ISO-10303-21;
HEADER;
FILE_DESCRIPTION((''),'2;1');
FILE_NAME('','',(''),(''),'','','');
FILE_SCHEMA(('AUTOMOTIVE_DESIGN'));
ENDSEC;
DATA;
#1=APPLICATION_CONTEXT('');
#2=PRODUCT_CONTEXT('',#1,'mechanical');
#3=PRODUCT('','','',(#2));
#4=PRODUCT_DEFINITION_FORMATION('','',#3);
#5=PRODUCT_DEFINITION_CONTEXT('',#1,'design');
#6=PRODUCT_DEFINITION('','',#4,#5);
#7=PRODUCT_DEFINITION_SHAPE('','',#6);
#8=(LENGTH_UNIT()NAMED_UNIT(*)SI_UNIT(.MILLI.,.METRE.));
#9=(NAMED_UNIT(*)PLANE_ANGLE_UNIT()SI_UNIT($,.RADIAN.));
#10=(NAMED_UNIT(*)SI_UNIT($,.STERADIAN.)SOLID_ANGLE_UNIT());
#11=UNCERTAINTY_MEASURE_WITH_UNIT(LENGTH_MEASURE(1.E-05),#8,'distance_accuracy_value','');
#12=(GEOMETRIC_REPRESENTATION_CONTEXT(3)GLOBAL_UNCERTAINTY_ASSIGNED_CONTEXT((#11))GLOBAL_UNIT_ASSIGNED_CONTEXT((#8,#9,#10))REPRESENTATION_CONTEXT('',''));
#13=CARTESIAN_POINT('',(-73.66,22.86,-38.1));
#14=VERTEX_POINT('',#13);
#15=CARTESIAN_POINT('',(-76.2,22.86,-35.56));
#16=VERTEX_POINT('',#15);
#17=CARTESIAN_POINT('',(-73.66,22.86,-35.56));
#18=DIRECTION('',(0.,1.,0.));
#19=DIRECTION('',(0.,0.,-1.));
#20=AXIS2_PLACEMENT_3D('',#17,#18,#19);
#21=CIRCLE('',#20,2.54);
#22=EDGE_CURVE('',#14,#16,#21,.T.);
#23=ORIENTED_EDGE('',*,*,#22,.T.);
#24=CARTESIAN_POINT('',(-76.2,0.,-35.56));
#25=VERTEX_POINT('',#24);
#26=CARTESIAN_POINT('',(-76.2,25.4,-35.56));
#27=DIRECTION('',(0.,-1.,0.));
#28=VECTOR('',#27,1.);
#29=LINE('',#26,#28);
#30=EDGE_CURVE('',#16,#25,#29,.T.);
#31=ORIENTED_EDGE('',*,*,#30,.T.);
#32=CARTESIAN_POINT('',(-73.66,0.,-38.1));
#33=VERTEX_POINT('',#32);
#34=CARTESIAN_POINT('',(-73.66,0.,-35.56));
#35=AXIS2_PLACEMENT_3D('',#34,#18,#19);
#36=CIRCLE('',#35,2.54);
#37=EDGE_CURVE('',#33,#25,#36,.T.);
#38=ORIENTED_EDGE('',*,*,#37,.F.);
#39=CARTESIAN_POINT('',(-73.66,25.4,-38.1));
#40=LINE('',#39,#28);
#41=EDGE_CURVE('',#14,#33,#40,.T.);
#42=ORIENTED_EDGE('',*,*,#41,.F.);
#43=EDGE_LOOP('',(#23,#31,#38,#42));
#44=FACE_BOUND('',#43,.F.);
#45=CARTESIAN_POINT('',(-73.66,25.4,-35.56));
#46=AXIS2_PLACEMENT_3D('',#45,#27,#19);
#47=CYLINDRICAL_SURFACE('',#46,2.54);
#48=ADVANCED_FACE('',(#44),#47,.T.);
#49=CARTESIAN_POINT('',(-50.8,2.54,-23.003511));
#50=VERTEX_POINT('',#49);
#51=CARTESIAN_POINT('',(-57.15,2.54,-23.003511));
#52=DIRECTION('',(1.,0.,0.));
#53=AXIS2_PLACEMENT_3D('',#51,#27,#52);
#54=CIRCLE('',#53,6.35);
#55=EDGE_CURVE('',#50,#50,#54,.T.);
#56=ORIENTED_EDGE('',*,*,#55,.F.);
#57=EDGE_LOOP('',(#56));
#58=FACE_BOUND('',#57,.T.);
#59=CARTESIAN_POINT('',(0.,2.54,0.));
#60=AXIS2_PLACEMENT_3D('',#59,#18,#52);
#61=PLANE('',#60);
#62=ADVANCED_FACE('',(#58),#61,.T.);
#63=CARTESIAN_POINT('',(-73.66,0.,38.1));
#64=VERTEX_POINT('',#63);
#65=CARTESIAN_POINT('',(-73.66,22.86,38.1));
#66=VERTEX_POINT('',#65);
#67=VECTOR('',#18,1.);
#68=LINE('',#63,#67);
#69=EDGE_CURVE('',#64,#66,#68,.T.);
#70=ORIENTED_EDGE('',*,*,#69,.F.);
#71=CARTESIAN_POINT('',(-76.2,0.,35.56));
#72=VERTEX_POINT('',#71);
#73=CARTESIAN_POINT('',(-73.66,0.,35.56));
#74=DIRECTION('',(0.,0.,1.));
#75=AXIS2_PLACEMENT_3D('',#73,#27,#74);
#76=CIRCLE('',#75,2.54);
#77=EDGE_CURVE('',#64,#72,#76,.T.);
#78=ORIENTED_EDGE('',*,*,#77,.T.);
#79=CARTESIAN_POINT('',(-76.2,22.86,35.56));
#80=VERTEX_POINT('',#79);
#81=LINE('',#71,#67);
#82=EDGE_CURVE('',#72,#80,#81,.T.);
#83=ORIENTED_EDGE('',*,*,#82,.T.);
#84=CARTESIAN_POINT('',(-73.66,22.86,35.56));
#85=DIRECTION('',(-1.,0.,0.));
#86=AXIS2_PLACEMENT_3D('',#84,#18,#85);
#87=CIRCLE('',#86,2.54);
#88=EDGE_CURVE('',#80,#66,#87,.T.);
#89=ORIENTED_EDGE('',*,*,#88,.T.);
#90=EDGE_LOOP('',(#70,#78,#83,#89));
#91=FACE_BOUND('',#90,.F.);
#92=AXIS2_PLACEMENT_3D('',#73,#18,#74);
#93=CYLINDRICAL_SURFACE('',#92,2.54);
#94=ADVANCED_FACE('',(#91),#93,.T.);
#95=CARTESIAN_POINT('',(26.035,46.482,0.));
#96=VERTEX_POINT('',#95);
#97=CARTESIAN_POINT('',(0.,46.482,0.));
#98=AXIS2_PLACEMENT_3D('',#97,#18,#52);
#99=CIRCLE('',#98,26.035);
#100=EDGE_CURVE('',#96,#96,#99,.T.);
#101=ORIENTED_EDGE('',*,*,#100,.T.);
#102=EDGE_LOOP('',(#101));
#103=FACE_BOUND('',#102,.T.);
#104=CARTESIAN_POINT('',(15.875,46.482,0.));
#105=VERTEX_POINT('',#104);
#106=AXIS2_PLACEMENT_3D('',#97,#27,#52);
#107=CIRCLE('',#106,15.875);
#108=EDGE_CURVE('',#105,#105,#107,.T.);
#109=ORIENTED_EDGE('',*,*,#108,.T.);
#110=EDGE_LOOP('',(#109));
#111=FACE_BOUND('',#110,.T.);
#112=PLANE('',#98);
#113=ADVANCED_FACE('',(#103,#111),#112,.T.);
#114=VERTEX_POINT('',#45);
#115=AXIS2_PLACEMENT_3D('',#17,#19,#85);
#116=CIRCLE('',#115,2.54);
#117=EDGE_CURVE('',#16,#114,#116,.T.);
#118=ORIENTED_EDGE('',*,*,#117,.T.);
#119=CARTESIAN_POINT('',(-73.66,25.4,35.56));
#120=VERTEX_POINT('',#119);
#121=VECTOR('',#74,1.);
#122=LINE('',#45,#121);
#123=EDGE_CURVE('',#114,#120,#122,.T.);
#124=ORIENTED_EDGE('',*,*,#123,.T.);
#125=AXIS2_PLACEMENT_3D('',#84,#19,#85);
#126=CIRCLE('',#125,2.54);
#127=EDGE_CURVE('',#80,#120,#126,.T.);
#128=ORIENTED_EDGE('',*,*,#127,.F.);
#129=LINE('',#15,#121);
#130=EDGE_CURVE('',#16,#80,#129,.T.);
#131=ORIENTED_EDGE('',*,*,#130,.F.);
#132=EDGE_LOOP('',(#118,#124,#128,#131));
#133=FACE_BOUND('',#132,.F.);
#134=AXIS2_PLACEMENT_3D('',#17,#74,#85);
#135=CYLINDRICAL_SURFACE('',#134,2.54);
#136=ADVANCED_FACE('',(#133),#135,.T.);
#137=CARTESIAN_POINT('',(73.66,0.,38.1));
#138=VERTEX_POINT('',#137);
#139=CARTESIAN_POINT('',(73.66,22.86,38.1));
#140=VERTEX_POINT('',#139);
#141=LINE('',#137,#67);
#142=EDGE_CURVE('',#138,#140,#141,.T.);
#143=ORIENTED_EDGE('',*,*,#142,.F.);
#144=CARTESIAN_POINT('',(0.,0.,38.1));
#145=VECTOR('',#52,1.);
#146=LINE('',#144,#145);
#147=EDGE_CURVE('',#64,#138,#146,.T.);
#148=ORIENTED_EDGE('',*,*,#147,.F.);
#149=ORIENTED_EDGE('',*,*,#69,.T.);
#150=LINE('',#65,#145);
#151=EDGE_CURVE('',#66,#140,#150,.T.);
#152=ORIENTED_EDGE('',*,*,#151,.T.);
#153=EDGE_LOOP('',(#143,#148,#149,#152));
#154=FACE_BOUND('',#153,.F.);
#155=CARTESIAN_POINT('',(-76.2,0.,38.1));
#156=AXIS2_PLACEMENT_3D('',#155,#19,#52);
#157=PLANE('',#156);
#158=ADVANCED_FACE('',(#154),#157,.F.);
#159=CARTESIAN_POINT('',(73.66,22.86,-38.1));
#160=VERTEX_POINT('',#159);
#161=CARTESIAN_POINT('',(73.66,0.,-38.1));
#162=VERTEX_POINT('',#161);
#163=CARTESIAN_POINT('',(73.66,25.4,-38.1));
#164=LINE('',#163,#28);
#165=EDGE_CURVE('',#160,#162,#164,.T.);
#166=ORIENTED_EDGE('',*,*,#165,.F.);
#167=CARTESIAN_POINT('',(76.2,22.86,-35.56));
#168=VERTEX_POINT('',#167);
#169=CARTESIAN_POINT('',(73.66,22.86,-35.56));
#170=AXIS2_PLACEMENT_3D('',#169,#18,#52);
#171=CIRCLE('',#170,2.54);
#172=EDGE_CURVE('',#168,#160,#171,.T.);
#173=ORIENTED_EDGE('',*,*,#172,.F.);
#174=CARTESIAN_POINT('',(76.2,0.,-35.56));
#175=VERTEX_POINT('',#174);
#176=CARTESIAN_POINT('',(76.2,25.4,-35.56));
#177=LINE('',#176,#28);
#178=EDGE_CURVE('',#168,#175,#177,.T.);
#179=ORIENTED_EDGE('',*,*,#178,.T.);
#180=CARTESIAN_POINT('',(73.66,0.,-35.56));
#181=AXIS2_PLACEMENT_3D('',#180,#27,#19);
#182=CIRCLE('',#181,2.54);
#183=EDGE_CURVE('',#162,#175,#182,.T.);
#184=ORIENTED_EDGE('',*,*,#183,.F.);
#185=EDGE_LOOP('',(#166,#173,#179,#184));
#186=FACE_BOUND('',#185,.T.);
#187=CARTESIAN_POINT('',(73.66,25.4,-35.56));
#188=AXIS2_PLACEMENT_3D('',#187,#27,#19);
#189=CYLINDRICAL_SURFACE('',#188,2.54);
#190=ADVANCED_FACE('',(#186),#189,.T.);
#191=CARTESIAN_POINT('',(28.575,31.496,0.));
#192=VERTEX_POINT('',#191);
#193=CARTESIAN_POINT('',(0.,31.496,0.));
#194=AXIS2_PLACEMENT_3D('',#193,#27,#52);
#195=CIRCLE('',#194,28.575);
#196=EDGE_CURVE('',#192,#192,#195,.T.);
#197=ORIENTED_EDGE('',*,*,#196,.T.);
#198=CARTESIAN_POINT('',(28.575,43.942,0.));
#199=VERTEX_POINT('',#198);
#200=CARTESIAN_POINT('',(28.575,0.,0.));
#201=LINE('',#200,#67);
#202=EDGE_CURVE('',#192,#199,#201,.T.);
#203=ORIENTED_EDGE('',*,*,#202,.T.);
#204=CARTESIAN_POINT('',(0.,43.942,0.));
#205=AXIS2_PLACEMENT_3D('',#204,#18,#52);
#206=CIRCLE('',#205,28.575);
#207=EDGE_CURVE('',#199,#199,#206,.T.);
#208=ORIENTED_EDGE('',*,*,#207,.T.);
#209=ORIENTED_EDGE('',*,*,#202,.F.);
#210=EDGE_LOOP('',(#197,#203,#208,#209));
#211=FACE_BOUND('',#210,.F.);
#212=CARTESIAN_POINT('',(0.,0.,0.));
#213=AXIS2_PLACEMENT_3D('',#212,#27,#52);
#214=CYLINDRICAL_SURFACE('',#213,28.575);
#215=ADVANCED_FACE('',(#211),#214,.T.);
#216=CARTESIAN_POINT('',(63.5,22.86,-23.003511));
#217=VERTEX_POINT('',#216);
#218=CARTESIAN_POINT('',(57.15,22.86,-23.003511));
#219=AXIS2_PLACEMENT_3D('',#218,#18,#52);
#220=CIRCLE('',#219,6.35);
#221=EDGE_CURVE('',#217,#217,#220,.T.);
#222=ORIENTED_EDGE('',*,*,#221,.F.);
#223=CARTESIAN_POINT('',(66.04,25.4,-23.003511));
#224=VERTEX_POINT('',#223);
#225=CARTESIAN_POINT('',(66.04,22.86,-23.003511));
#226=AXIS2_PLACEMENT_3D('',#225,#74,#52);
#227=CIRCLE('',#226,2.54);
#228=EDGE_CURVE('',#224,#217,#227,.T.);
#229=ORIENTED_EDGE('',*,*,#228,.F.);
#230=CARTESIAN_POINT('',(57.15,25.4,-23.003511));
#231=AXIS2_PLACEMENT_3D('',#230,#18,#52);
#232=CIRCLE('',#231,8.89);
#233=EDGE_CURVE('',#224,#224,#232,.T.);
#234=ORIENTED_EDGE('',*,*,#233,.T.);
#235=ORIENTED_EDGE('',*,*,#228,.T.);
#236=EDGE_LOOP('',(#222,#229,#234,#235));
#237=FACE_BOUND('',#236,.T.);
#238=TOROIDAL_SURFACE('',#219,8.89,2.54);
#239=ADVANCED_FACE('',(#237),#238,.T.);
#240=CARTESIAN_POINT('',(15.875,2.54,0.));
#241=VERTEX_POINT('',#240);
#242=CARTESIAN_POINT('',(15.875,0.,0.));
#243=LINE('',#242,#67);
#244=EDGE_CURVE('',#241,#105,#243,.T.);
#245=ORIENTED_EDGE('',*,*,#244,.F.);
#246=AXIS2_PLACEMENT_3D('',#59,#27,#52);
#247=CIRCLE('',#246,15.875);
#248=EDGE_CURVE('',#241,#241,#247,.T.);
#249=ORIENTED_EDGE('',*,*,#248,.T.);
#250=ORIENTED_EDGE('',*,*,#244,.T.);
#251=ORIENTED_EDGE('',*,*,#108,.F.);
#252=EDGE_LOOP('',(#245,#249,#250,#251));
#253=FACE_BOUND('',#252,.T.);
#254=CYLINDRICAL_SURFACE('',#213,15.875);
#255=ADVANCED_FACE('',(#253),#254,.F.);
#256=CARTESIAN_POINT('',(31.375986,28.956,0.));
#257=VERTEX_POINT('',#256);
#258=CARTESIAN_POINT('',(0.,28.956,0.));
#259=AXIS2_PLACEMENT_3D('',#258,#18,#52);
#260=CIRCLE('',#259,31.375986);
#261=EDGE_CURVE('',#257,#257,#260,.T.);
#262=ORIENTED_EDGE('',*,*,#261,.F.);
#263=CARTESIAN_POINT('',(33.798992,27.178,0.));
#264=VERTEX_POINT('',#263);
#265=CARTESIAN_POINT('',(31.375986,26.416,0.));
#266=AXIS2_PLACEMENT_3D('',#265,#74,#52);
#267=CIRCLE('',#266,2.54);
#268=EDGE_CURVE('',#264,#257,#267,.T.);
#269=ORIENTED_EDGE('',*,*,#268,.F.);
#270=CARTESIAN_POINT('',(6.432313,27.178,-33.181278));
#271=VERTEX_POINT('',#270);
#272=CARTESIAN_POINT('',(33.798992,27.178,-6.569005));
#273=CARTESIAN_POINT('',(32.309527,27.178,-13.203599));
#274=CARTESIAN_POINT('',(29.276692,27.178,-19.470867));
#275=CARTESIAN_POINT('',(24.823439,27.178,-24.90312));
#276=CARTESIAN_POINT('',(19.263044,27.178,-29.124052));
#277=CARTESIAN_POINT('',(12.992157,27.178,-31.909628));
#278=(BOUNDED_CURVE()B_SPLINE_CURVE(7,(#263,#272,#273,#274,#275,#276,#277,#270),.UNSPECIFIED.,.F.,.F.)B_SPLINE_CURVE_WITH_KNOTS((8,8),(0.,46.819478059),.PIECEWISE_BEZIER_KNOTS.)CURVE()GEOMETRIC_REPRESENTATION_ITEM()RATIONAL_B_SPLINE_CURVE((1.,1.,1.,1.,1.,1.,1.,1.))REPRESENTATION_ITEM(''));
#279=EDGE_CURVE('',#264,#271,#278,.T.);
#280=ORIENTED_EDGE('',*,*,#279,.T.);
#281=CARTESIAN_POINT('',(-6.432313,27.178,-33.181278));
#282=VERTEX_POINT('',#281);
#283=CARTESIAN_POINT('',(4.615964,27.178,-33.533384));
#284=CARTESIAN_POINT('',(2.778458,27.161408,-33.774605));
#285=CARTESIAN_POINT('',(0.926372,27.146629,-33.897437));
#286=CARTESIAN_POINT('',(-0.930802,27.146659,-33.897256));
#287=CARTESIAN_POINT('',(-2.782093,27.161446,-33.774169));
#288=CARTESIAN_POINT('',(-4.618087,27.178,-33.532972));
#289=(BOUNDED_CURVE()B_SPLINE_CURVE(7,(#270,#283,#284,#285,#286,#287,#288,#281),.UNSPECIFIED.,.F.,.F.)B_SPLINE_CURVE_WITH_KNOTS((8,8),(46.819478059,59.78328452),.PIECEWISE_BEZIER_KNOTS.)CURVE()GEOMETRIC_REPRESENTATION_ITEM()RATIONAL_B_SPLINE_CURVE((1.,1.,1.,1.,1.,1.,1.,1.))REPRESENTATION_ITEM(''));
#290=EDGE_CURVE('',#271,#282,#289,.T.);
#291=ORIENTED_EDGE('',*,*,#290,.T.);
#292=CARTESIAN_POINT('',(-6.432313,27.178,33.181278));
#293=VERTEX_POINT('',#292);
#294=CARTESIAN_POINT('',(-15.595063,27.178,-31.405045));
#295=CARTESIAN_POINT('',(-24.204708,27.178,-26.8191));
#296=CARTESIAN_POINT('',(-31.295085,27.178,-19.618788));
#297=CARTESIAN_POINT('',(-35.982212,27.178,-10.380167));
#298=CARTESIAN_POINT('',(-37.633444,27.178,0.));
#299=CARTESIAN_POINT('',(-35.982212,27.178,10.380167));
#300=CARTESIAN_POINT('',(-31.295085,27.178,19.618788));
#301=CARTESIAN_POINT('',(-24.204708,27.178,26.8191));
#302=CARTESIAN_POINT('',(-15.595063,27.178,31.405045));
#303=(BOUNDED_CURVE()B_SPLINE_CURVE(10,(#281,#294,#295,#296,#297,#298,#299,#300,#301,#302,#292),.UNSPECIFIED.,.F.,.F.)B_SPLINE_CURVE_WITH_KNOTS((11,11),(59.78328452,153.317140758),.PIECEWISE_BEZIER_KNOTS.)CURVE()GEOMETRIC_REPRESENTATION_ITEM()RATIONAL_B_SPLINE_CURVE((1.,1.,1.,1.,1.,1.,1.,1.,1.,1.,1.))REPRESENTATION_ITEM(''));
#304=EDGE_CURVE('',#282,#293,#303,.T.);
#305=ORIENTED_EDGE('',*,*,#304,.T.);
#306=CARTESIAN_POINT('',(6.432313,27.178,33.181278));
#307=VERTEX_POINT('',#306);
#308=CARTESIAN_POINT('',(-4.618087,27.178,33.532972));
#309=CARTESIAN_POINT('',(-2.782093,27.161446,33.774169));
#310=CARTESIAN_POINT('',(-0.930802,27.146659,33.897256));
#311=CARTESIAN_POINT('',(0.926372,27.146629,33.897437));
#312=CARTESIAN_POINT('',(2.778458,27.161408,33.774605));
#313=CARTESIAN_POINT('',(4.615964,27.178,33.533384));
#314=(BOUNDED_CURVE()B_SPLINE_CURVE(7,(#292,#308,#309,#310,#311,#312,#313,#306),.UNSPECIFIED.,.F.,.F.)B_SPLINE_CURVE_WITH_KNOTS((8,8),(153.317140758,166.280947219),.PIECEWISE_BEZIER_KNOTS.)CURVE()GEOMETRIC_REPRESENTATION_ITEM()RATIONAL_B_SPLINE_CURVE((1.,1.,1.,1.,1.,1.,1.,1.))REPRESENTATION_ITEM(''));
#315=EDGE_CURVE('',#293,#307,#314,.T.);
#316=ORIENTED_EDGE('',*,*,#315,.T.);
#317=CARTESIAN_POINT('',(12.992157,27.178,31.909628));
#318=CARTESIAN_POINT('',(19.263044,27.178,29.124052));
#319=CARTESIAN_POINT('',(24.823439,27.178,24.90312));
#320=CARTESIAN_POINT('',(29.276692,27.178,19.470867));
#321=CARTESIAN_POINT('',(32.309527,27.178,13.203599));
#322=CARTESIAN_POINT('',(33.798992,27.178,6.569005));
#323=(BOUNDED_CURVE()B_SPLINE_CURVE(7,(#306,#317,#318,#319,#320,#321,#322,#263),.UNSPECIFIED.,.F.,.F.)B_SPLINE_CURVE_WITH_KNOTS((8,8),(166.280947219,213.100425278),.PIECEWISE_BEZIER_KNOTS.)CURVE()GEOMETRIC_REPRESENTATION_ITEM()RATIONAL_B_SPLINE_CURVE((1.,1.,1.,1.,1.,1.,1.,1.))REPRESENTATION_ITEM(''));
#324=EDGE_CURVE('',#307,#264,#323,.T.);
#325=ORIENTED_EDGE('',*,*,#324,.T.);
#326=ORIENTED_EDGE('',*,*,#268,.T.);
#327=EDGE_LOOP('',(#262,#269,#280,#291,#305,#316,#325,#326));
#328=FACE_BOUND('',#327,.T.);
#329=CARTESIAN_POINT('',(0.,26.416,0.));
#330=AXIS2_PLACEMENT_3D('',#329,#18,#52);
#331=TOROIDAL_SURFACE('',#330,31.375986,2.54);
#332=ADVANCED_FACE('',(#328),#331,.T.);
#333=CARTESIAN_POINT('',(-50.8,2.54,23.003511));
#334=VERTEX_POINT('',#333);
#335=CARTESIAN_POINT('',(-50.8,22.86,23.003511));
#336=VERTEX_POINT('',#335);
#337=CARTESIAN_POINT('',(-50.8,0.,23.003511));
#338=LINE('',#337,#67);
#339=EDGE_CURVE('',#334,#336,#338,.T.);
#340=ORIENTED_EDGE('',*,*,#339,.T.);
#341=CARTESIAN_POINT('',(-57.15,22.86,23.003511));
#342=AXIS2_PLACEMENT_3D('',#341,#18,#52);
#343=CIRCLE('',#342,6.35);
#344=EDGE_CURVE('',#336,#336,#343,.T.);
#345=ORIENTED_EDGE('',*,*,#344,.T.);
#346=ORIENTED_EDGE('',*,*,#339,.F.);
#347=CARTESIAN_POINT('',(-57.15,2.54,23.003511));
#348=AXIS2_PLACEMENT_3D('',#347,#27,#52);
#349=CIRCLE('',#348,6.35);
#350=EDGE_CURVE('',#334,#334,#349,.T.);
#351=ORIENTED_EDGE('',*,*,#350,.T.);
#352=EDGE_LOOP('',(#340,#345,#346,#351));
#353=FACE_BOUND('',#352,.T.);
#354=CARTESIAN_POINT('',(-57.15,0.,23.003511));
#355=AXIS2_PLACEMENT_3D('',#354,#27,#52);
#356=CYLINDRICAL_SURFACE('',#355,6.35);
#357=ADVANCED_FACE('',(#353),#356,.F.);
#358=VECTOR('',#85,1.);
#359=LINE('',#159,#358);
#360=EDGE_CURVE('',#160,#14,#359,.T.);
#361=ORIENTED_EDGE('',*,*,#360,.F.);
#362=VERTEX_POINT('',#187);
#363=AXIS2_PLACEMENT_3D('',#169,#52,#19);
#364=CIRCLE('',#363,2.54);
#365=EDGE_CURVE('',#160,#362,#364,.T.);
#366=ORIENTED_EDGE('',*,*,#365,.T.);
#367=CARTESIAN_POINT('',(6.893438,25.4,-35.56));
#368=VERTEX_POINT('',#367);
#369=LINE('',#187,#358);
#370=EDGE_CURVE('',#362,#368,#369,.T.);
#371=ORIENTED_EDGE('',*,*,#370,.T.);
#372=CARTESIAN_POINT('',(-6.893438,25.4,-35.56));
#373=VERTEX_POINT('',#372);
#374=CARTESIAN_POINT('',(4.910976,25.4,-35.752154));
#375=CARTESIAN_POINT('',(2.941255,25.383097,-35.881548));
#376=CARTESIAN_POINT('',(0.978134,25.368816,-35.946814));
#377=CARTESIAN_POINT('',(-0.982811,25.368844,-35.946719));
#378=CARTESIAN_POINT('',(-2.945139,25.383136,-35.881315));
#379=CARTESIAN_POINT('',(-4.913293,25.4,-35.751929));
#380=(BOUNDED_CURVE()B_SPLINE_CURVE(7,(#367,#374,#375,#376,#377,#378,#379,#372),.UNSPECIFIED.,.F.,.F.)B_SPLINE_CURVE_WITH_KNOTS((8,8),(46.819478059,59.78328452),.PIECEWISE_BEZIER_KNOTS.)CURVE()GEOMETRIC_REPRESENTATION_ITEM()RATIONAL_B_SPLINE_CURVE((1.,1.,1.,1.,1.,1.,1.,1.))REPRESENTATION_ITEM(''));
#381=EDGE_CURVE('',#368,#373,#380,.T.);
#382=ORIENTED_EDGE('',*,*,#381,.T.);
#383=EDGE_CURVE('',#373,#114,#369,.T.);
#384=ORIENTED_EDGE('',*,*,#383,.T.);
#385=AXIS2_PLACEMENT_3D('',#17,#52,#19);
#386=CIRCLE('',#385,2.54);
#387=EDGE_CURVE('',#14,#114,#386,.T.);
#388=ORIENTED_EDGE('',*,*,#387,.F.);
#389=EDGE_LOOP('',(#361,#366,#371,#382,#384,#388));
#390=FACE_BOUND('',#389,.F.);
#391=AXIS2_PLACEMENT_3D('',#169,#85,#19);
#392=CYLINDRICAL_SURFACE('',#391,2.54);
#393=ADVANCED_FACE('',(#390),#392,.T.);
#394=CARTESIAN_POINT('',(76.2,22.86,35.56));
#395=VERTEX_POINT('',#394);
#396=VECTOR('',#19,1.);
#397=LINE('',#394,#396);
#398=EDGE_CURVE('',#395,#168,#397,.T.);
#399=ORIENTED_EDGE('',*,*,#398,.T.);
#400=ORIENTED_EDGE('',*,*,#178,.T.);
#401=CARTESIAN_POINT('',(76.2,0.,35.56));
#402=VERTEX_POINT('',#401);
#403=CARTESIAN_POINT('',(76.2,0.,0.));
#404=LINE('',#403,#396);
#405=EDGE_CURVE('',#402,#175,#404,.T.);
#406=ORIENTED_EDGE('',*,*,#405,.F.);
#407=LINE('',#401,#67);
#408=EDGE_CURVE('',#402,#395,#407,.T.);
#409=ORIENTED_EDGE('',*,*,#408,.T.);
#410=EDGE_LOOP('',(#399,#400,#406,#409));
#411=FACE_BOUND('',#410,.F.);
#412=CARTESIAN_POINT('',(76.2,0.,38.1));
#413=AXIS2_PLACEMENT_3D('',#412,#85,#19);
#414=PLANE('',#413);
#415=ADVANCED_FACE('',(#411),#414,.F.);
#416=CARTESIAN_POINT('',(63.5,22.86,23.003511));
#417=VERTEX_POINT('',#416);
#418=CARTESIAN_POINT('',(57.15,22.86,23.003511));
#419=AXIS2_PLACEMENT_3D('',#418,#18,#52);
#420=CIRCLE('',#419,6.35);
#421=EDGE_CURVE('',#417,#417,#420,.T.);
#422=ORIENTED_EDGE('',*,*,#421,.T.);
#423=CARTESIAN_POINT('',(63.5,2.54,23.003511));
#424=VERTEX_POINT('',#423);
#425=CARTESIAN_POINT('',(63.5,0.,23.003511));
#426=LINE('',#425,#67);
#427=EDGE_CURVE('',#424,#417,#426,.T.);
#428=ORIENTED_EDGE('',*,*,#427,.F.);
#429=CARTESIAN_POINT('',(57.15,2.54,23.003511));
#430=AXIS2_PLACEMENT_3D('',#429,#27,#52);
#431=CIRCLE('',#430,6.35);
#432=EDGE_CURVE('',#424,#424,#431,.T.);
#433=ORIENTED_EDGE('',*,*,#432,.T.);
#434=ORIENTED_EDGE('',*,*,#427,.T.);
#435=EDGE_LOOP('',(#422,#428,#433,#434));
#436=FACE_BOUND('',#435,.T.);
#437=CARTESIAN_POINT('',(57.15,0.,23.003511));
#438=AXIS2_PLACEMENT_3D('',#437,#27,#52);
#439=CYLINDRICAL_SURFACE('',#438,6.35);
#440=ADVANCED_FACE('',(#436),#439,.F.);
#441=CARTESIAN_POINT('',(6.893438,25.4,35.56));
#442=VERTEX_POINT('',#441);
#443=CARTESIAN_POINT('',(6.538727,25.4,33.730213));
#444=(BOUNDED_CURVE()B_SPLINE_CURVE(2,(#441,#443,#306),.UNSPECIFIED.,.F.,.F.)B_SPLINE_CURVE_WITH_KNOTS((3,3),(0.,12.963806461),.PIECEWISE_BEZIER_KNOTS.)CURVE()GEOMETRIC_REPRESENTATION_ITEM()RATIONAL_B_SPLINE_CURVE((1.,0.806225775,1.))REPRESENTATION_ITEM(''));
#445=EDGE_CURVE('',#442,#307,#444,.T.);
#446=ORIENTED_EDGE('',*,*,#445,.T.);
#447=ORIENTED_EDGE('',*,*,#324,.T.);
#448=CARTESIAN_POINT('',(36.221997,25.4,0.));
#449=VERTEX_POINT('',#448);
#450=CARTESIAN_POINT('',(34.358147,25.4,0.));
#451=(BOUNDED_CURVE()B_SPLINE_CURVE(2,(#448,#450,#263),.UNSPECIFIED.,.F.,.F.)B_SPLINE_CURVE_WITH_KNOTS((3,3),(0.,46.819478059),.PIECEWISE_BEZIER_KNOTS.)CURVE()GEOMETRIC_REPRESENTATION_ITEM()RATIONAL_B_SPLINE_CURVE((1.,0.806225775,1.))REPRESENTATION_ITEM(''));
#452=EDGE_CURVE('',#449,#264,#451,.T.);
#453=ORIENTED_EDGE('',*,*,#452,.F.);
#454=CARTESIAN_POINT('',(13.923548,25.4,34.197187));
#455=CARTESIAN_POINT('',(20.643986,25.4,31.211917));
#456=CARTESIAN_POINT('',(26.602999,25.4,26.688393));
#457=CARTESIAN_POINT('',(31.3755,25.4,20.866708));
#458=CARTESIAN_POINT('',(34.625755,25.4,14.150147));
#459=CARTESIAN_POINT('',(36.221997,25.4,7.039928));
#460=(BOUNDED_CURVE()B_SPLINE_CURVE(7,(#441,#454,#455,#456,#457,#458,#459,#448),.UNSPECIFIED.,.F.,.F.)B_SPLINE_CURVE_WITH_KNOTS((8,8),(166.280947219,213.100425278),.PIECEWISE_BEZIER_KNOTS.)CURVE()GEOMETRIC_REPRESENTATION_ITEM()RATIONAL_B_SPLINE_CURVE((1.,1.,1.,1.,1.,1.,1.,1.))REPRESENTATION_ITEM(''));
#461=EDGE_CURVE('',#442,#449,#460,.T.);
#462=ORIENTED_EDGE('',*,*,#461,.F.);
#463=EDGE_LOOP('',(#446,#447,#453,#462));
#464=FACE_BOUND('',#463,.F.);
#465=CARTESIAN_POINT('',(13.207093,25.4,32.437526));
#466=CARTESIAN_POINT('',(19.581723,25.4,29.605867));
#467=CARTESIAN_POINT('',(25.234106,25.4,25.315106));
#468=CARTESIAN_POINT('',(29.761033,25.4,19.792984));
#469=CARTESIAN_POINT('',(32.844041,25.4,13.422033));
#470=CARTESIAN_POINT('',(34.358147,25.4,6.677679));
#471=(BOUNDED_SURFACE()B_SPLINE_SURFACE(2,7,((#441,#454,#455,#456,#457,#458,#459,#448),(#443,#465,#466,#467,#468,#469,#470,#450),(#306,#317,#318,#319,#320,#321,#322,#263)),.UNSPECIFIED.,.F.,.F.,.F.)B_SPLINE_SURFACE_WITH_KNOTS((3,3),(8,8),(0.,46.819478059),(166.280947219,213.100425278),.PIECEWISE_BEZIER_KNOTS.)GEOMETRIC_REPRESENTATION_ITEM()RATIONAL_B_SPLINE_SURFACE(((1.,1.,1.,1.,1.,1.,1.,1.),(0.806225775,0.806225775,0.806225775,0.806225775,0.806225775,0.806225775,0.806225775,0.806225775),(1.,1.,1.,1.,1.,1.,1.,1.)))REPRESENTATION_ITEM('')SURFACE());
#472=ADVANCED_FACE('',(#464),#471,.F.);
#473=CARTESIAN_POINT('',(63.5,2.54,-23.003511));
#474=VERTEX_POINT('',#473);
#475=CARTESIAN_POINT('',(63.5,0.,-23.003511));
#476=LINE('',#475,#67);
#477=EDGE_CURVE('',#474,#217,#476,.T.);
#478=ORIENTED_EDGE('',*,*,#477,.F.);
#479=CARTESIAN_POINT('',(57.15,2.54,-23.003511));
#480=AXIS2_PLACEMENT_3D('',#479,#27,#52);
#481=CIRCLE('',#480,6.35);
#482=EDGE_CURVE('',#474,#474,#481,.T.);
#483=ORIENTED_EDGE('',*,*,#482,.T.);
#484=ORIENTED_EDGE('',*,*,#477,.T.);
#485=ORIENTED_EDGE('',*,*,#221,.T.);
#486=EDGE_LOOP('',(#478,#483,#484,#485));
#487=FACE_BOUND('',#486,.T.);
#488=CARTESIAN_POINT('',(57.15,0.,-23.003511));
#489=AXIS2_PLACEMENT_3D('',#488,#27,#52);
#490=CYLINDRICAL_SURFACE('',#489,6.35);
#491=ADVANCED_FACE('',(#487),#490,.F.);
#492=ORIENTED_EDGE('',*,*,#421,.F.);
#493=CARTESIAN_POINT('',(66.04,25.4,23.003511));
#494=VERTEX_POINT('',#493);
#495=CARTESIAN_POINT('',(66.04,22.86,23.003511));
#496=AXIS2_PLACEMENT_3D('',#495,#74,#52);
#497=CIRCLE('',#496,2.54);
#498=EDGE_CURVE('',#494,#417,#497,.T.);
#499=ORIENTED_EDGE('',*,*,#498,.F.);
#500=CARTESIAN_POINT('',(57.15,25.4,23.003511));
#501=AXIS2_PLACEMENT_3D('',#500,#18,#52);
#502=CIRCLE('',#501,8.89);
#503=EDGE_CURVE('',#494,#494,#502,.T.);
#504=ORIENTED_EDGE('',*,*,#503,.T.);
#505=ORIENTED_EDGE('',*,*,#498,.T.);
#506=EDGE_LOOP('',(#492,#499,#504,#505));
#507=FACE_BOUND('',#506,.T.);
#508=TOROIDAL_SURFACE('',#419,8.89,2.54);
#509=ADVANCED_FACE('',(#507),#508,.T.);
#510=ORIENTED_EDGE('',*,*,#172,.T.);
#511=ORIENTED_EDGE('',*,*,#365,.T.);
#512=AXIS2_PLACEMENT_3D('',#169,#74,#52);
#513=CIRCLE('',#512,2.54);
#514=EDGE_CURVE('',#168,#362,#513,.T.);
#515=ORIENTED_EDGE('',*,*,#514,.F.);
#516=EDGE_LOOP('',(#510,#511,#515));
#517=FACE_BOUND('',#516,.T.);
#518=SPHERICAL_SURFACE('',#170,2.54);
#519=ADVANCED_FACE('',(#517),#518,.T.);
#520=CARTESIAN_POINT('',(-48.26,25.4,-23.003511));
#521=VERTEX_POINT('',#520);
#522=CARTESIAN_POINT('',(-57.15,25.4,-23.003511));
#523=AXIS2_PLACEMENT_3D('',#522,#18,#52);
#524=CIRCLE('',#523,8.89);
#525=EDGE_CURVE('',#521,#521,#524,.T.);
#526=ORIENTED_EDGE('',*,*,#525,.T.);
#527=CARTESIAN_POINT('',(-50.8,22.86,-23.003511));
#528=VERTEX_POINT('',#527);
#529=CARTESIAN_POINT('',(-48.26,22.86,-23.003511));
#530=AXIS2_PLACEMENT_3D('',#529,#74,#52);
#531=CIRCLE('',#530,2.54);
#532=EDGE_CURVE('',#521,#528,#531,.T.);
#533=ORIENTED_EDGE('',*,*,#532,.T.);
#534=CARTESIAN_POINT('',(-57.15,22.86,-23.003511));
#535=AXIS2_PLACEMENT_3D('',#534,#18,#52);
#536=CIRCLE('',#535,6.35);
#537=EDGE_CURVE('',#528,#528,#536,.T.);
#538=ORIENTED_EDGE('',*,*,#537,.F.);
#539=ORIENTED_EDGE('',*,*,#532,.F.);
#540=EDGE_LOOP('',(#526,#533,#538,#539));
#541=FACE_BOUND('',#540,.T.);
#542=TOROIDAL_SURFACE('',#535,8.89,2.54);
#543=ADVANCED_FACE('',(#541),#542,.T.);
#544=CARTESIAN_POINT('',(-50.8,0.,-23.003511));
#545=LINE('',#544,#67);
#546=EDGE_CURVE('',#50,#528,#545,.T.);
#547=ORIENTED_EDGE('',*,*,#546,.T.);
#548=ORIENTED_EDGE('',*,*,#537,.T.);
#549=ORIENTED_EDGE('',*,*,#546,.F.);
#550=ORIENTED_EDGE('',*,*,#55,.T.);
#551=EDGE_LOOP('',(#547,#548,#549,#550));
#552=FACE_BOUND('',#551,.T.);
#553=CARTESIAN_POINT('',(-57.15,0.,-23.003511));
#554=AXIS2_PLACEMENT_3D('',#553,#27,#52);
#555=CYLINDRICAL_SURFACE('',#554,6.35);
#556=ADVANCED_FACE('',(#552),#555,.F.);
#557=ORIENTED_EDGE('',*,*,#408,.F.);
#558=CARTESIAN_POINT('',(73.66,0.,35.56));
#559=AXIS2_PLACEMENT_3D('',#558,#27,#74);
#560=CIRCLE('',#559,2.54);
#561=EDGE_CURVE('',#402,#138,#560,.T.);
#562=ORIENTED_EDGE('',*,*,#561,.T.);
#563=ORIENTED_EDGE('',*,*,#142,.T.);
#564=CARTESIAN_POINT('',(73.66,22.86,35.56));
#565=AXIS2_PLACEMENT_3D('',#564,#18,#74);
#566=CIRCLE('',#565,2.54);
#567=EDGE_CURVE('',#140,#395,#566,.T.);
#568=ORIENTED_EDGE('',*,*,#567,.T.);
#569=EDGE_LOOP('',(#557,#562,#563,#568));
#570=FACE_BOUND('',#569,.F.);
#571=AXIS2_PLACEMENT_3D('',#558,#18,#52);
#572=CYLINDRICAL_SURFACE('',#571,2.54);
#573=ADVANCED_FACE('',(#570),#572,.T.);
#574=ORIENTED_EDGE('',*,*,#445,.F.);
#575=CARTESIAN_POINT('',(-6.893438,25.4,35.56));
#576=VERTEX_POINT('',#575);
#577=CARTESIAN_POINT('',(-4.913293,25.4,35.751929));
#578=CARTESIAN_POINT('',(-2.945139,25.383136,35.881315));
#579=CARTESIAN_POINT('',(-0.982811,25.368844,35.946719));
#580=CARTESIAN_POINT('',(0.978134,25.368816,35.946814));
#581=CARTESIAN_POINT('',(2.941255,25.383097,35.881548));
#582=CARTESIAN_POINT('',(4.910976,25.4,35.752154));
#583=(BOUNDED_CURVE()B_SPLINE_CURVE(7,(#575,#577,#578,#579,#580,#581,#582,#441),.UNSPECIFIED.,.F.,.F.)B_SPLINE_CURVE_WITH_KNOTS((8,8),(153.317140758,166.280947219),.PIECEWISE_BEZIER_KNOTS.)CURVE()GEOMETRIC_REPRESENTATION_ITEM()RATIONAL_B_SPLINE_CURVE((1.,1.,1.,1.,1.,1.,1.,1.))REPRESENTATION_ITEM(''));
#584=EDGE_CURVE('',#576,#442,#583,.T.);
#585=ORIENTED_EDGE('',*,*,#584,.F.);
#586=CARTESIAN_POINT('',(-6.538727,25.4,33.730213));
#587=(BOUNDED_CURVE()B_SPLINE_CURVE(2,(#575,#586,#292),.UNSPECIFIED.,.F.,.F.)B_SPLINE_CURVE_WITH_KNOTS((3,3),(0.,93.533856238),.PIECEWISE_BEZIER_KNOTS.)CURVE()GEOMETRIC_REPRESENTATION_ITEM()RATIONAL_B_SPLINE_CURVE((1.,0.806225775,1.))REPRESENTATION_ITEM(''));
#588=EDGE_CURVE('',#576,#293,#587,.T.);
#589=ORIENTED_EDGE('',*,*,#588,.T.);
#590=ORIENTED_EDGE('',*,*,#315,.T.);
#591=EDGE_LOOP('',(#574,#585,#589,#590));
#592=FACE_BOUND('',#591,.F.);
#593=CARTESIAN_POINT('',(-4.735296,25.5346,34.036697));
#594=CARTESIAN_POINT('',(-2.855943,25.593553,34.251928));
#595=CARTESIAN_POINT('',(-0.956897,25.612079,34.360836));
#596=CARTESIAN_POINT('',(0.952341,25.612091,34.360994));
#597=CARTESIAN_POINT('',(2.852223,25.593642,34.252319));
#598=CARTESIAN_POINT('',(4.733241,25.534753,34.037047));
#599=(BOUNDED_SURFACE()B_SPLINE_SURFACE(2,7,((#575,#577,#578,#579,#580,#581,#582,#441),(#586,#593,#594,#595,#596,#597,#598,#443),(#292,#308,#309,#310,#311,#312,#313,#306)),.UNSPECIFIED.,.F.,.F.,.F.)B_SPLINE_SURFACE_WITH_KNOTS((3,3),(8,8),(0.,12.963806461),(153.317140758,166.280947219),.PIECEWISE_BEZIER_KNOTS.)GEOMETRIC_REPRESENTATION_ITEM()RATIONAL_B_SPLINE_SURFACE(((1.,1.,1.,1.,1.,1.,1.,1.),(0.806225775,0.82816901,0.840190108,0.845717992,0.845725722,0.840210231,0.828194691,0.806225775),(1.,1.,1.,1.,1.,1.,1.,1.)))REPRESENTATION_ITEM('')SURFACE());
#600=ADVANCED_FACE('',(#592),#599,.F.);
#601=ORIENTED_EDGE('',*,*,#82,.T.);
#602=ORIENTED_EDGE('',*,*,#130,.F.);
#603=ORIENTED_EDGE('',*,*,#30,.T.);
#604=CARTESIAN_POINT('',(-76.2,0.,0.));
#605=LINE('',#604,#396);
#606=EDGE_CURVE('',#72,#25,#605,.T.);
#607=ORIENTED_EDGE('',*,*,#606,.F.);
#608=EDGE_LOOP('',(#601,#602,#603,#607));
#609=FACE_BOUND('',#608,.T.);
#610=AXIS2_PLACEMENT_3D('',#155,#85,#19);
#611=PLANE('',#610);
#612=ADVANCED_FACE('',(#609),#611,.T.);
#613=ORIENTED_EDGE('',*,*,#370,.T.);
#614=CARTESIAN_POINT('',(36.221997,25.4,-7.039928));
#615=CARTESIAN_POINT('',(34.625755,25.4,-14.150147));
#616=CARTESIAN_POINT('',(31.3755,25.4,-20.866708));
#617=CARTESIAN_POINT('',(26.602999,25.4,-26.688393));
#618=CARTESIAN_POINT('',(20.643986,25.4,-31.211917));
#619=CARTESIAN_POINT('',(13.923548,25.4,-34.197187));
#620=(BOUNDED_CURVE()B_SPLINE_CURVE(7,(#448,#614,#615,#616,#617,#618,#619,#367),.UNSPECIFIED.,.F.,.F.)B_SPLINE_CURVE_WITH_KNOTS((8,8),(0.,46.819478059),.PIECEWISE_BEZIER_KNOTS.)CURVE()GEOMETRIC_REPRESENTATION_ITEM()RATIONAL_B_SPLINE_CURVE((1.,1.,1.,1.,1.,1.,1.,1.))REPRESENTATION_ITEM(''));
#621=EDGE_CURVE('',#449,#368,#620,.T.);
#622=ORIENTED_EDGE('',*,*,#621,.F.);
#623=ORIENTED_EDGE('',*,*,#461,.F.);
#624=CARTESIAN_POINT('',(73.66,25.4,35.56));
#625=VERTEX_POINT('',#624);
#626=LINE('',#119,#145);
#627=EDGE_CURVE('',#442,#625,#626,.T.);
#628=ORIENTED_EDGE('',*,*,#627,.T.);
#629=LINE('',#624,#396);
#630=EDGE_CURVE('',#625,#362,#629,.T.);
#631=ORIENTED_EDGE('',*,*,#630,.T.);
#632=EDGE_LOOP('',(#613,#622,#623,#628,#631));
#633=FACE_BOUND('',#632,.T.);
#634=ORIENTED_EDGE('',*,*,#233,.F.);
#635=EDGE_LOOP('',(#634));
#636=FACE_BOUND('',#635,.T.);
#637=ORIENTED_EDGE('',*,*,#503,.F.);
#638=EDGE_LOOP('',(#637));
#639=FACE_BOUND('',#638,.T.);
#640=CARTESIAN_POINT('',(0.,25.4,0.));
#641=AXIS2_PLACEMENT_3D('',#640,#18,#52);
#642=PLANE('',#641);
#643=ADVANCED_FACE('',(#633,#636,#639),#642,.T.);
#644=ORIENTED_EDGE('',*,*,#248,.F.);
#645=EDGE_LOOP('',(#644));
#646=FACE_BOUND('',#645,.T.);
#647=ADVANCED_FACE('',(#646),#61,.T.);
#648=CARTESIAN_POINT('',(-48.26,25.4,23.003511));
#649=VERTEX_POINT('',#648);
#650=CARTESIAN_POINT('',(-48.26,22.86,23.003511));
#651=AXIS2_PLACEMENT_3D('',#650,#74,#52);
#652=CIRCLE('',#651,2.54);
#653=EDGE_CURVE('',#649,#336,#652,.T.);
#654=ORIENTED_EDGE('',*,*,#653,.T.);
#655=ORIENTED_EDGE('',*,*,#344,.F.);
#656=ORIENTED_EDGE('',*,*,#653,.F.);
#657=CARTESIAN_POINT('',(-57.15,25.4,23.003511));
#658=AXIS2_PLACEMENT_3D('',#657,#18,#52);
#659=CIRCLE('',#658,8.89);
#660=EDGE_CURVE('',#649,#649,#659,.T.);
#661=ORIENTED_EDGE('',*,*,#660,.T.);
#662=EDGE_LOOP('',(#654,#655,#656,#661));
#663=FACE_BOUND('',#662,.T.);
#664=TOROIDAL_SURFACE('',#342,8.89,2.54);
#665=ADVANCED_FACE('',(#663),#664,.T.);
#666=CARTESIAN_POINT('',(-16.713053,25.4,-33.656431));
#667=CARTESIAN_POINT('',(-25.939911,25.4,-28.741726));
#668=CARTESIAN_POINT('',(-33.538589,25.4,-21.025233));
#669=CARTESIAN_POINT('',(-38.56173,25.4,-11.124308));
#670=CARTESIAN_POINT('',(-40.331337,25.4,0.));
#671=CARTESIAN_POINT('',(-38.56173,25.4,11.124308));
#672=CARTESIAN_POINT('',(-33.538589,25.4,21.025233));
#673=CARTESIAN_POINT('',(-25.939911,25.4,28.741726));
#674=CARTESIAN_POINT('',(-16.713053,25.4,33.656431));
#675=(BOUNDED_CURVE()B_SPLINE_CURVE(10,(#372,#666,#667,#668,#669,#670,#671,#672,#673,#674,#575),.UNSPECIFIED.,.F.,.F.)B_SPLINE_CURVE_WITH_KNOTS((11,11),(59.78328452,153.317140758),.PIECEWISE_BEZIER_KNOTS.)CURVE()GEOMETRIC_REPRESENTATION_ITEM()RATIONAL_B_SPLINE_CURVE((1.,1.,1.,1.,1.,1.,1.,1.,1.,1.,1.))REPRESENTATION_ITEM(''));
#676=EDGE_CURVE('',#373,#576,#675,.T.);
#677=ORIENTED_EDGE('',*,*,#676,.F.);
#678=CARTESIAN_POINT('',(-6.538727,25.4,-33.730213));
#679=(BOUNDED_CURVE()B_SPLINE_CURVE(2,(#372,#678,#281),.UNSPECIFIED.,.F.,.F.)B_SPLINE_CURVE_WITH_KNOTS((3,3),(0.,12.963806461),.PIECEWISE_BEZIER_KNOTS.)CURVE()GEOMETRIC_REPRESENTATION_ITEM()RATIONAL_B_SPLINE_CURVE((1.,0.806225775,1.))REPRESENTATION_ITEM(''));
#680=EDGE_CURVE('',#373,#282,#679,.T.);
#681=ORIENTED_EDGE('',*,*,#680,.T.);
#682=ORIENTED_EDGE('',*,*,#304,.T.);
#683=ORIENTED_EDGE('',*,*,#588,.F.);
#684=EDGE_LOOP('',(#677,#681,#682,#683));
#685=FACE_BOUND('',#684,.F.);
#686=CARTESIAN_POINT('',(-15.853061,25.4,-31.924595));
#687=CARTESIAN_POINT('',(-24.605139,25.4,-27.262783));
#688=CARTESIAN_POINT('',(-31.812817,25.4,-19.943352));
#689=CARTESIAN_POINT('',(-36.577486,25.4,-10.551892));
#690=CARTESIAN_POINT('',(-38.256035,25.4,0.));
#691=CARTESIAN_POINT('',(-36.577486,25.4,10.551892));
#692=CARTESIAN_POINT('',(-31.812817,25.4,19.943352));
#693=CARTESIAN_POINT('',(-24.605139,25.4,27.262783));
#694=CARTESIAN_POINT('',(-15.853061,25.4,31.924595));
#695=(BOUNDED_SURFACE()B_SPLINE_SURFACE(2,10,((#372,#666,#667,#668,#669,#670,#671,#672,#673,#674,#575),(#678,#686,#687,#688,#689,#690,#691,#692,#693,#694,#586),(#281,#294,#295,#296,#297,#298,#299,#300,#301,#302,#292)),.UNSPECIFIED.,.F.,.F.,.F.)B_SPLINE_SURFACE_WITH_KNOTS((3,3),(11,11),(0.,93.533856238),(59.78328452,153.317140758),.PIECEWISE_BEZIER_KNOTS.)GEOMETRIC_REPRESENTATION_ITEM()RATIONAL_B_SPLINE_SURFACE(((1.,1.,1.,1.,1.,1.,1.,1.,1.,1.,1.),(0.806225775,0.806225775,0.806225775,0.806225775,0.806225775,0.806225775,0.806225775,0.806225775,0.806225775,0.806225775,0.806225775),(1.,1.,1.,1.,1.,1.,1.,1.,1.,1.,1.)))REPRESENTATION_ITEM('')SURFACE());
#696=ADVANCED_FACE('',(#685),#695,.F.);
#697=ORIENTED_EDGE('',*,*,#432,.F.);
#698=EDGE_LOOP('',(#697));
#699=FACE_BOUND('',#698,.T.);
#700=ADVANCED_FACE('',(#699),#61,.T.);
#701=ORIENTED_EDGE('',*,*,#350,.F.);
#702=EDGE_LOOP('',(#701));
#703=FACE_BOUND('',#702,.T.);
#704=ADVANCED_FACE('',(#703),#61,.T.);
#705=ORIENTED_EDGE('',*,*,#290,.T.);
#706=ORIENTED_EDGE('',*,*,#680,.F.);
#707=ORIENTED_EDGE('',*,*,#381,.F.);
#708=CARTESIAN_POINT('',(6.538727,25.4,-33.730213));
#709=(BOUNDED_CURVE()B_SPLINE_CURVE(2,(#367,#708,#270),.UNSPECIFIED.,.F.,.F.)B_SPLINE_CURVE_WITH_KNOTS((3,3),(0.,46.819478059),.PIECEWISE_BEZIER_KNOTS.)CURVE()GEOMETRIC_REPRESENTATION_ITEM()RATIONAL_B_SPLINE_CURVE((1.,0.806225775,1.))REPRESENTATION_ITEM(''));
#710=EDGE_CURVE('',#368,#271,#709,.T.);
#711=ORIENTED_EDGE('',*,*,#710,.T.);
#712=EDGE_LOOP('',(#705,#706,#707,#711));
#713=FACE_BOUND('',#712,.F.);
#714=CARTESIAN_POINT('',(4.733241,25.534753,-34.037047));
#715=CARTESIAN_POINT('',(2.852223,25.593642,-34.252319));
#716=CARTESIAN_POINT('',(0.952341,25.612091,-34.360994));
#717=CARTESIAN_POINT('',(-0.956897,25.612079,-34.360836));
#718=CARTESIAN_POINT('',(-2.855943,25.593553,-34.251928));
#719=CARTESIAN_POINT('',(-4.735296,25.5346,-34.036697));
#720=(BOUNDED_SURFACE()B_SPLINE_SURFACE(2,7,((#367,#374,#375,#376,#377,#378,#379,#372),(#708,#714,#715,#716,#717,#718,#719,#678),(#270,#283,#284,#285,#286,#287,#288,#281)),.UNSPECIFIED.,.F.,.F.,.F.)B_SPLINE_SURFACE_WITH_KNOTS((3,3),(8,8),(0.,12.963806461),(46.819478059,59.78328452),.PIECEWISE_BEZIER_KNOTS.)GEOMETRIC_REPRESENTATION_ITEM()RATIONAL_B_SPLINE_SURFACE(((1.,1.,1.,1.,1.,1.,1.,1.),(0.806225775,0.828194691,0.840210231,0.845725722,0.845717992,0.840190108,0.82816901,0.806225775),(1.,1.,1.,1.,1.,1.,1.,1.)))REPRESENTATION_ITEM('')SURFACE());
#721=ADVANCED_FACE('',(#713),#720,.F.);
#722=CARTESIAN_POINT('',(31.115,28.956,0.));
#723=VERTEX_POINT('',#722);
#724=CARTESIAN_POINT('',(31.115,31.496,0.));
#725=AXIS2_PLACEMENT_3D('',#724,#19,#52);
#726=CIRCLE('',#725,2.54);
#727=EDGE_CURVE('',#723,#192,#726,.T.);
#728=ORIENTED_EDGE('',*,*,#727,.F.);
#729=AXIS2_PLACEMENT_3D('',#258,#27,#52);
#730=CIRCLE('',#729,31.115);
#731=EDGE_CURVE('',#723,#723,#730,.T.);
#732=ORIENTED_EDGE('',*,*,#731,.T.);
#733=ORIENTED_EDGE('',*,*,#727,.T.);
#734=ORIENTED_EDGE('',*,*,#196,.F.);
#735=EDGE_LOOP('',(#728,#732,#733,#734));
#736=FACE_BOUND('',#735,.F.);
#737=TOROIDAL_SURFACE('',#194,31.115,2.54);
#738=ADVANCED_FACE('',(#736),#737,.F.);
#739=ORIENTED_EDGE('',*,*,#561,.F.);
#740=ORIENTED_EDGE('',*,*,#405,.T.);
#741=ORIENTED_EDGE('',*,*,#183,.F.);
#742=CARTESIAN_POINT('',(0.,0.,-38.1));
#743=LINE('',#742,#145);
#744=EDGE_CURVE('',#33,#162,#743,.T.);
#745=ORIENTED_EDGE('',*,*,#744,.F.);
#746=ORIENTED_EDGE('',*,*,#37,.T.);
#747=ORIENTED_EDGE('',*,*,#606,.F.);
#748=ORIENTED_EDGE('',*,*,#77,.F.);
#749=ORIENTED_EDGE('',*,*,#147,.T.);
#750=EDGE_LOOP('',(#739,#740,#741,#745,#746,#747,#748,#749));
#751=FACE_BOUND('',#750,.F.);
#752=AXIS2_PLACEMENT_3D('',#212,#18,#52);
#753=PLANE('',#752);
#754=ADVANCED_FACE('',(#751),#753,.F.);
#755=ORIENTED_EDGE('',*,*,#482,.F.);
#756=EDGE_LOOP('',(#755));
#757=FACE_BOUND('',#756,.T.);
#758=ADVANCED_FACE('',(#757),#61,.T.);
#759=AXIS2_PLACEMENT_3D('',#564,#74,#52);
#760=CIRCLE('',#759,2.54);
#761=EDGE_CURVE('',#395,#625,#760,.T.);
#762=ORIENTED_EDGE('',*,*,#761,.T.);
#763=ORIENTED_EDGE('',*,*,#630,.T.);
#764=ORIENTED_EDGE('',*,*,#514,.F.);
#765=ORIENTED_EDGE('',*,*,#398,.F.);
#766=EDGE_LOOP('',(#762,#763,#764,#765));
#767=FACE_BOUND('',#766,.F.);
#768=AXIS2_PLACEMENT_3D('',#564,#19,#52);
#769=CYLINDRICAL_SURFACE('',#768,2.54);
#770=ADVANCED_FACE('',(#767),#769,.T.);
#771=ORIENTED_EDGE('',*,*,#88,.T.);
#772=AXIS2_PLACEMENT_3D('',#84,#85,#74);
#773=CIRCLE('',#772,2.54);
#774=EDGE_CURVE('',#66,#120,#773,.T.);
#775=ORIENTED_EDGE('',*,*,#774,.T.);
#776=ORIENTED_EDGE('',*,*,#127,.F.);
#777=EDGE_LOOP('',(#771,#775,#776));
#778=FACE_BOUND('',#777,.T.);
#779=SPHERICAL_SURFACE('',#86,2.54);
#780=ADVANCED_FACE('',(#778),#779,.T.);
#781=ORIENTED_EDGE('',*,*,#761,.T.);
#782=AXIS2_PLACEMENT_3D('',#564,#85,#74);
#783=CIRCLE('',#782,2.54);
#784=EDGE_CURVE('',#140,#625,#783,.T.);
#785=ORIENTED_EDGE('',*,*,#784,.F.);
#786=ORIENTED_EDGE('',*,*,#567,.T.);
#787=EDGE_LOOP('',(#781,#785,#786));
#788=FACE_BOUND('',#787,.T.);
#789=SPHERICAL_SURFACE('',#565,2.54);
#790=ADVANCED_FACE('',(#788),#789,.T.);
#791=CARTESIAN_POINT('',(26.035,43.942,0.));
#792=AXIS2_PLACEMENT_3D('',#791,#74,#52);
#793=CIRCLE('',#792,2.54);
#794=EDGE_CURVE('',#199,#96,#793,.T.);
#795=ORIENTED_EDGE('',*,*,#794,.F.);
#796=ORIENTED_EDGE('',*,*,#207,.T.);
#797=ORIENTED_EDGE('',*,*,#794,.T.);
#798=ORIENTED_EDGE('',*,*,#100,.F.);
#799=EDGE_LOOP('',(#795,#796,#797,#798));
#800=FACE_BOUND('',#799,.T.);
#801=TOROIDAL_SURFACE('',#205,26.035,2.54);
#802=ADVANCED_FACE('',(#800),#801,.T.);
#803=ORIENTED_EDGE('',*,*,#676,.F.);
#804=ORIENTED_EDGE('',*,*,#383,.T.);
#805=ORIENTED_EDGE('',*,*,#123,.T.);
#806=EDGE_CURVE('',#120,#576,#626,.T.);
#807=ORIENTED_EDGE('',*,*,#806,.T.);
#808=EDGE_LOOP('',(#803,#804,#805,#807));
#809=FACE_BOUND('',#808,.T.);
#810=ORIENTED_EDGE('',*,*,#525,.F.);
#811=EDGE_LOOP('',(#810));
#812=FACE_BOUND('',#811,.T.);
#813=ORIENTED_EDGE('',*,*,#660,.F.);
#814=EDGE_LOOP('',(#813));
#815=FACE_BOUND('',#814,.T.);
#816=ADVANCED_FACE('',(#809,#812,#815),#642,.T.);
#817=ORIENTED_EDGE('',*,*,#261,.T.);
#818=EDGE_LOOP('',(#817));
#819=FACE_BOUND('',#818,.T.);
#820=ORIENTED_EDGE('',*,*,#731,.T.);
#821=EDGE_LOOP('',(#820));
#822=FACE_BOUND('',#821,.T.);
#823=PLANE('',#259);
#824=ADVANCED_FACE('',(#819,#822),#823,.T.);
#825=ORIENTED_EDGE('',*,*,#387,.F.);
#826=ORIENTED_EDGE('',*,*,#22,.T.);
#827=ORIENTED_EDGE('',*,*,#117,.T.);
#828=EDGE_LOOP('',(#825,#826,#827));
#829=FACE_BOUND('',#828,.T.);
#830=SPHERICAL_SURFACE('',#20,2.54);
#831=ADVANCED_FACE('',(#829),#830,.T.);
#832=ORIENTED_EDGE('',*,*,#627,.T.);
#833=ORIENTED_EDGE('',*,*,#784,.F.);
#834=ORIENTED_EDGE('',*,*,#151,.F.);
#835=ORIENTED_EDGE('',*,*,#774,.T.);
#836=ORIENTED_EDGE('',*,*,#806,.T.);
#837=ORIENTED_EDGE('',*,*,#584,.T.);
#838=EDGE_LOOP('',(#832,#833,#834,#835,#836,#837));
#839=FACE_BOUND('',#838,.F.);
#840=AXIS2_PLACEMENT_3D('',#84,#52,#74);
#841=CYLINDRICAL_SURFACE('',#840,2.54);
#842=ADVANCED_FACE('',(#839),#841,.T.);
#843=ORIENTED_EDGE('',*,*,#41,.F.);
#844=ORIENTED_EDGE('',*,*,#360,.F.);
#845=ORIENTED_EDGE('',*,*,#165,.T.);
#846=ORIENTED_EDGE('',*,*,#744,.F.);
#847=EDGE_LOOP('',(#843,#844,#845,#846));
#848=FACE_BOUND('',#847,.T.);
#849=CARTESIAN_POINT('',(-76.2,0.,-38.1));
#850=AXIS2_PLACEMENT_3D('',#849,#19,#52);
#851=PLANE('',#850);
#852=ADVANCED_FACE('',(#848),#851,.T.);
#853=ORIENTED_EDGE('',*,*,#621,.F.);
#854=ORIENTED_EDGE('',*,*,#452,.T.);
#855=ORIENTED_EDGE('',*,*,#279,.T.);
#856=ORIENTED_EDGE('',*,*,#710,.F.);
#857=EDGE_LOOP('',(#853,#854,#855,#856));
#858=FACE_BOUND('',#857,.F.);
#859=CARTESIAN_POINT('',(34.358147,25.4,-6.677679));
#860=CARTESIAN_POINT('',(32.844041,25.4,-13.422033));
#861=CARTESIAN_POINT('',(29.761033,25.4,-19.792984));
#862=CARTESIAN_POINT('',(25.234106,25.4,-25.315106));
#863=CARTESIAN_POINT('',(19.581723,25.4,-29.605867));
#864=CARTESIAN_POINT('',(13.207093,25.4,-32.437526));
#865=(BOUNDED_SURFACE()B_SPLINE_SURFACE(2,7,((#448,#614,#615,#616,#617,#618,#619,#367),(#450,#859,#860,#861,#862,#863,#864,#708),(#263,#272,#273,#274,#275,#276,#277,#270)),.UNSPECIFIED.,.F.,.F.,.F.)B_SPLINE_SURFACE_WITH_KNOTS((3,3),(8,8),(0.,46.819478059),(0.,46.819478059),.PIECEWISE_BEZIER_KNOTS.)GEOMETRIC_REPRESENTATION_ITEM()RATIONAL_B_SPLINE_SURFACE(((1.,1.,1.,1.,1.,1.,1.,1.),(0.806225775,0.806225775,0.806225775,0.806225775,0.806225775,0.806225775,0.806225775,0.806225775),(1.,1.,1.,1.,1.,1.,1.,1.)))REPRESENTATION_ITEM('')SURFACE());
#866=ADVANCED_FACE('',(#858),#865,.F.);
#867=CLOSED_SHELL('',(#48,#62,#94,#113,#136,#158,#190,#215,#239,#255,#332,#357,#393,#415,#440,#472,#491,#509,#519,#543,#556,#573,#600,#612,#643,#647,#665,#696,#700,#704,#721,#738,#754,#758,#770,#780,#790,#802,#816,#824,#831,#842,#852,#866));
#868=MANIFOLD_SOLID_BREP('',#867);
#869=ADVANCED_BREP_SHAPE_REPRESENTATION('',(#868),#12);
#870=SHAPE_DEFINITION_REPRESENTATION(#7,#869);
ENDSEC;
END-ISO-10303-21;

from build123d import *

# Parameters (mm, degrees)
SKETCH1_W               = 152.4
SKETCH1_H               = 76.2
SKETCH1_R               = 33.915986058
SKETCH1_R_2             = 6.35
BOSS_EXTRUDE4_DEPTH     = 25.4
SKETCH5_R               = 33.915986058
BOSS_EXTRUDE5_DEPTH     = 28.956
SKETCH6_R               = 28.575
BOSS_EXTRUDE6_DEPTH     = 46.482
SKETCH7_R               = 15.875
CUT_EXTRUDE2_DEPTH      = 51.054
CUT_EXTRUDE2_DEPTH_BACK = 0.254
SKETCH8_W               = 152.4
SKETCH8_H               = 76.2
BOSS_EXTRUDE8_DEPTH     = 2.54
FILLET1_R               = 2.54
FILLET2_R               = 2.54
FILLET3_R               = 2.54


with BuildPart() as part:
    # Sketch1 → Boss-Extrude4 (new body)
    with BuildSketch(Plane(origin=(0, 0, 0), x_dir=(1, 0, 0), z_dir=(0, 1, 0))):
        Rectangle(SKETCH1_W, SKETCH1_H)
        Circle(SKETCH1_R, mode=Mode.SUBTRACT)
        with Locations((57.15, -23.003511002)):
            Circle(SKETCH1_R_2, mode=Mode.SUBTRACT)
        with Locations((-57.15, -23.003511002)):
            Circle(SKETCH1_R_2, mode=Mode.SUBTRACT)
        with Locations((-57.15, 23.003511002)):
            Circle(SKETCH1_R_2, mode=Mode.SUBTRACT)
        with Locations((57.15, 23.003511002)):
            Circle(SKETCH1_R_2, mode=Mode.SUBTRACT)
    extrude(amount=BOSS_EXTRUDE4_DEPTH)

    # Sketch5 → Boss-Extrude5 (add)
    with BuildSketch(Plane(origin=(0, 0, 0), x_dir=(1, 0, 0), z_dir=(0, 1, 0))):
        Circle(SKETCH5_R)
    extrude(amount=BOSS_EXTRUDE5_DEPTH)

    # Sketch6 → Boss-Extrude6 (add)
    with BuildSketch(Plane(origin=(0, 0, 0), x_dir=(1, 0, 0), z_dir=(0, 1, 0))):
        Circle(SKETCH6_R)
    extrude(amount=BOSS_EXTRUDE6_DEPTH)

    # Sketch7 → Cut-Extrude2 (cut, two sides)
    with BuildSketch(Plane(origin=(0, 0, 0), x_dir=(1, 0, 0), z_dir=(0, 1, 0))) as cut_extrude2_sk:
        Circle(SKETCH7_R)
    extrude(amount=CUT_EXTRUDE2_DEPTH, mode=Mode.SUBTRACT)
    extrude(cut_extrude2_sk.sketch, amount=-CUT_EXTRUDE2_DEPTH_BACK, mode=Mode.SUBTRACT)

    # Sketch8 → Boss-Extrude8 (add)
    with BuildSketch(Plane(origin=(0, 0, 0), x_dir=(1, 0, 0), z_dir=(0, 1, 0))):
        Rectangle(SKETCH8_W, SKETCH8_H)
    extrude(amount=BOSS_EXTRUDE8_DEPTH)

    # Fillet1
    fillet1_edges = [part.edges().sort_by_distance(p)[0] for p in [
        (76.2, 12.7, 38.1),
        (-76.2, 12.7, 38.1),
        (-76.2, 12.7, -38.1),
        (76.2, 12.7, -38.1),
        (-33.915986058, 28.956, 0),
        (-28.575, 28.956, 0),
        (-28.575, 46.482, 0),
    ]]
    fillet(fillet1_edges, radius=FILLET1_R)

    # Fillet2
    fillet2_edges = [part.edges().sort_by_distance(p)[0] for p in [
        (76.2, 25.4, 0),
        (0, 25.4, 38.1),
        (0, 25.4, -38.1),
        (-76.2, 25.4, 0),
        (75.456051224, 25.4, -37.356051224),
        (-75.456051224, 25.4, -37.356051224),
        (-75.456051224, 25.4, 37.356051224),
        (75.456051224, 25.4, 37.356051224),
    ]]
    fillet(fillet2_edges, radius=FILLET2_R)

    # Fillet3
    fillet3_edges = [part.edges().sort_by_distance(p)[0] for p in [
        (50.8, 25.4, -23.003511002),
        (-63.5, 25.4, -23.003511002),
        (-63.5, 25.4, 23.003511002),
        (50.8, 25.4, 23.003511002),
        (-33.915986058, 25.4, 0),
    ]]
    fillet(fillet3_edges, radius=FILLET3_R)


solid = part.part
